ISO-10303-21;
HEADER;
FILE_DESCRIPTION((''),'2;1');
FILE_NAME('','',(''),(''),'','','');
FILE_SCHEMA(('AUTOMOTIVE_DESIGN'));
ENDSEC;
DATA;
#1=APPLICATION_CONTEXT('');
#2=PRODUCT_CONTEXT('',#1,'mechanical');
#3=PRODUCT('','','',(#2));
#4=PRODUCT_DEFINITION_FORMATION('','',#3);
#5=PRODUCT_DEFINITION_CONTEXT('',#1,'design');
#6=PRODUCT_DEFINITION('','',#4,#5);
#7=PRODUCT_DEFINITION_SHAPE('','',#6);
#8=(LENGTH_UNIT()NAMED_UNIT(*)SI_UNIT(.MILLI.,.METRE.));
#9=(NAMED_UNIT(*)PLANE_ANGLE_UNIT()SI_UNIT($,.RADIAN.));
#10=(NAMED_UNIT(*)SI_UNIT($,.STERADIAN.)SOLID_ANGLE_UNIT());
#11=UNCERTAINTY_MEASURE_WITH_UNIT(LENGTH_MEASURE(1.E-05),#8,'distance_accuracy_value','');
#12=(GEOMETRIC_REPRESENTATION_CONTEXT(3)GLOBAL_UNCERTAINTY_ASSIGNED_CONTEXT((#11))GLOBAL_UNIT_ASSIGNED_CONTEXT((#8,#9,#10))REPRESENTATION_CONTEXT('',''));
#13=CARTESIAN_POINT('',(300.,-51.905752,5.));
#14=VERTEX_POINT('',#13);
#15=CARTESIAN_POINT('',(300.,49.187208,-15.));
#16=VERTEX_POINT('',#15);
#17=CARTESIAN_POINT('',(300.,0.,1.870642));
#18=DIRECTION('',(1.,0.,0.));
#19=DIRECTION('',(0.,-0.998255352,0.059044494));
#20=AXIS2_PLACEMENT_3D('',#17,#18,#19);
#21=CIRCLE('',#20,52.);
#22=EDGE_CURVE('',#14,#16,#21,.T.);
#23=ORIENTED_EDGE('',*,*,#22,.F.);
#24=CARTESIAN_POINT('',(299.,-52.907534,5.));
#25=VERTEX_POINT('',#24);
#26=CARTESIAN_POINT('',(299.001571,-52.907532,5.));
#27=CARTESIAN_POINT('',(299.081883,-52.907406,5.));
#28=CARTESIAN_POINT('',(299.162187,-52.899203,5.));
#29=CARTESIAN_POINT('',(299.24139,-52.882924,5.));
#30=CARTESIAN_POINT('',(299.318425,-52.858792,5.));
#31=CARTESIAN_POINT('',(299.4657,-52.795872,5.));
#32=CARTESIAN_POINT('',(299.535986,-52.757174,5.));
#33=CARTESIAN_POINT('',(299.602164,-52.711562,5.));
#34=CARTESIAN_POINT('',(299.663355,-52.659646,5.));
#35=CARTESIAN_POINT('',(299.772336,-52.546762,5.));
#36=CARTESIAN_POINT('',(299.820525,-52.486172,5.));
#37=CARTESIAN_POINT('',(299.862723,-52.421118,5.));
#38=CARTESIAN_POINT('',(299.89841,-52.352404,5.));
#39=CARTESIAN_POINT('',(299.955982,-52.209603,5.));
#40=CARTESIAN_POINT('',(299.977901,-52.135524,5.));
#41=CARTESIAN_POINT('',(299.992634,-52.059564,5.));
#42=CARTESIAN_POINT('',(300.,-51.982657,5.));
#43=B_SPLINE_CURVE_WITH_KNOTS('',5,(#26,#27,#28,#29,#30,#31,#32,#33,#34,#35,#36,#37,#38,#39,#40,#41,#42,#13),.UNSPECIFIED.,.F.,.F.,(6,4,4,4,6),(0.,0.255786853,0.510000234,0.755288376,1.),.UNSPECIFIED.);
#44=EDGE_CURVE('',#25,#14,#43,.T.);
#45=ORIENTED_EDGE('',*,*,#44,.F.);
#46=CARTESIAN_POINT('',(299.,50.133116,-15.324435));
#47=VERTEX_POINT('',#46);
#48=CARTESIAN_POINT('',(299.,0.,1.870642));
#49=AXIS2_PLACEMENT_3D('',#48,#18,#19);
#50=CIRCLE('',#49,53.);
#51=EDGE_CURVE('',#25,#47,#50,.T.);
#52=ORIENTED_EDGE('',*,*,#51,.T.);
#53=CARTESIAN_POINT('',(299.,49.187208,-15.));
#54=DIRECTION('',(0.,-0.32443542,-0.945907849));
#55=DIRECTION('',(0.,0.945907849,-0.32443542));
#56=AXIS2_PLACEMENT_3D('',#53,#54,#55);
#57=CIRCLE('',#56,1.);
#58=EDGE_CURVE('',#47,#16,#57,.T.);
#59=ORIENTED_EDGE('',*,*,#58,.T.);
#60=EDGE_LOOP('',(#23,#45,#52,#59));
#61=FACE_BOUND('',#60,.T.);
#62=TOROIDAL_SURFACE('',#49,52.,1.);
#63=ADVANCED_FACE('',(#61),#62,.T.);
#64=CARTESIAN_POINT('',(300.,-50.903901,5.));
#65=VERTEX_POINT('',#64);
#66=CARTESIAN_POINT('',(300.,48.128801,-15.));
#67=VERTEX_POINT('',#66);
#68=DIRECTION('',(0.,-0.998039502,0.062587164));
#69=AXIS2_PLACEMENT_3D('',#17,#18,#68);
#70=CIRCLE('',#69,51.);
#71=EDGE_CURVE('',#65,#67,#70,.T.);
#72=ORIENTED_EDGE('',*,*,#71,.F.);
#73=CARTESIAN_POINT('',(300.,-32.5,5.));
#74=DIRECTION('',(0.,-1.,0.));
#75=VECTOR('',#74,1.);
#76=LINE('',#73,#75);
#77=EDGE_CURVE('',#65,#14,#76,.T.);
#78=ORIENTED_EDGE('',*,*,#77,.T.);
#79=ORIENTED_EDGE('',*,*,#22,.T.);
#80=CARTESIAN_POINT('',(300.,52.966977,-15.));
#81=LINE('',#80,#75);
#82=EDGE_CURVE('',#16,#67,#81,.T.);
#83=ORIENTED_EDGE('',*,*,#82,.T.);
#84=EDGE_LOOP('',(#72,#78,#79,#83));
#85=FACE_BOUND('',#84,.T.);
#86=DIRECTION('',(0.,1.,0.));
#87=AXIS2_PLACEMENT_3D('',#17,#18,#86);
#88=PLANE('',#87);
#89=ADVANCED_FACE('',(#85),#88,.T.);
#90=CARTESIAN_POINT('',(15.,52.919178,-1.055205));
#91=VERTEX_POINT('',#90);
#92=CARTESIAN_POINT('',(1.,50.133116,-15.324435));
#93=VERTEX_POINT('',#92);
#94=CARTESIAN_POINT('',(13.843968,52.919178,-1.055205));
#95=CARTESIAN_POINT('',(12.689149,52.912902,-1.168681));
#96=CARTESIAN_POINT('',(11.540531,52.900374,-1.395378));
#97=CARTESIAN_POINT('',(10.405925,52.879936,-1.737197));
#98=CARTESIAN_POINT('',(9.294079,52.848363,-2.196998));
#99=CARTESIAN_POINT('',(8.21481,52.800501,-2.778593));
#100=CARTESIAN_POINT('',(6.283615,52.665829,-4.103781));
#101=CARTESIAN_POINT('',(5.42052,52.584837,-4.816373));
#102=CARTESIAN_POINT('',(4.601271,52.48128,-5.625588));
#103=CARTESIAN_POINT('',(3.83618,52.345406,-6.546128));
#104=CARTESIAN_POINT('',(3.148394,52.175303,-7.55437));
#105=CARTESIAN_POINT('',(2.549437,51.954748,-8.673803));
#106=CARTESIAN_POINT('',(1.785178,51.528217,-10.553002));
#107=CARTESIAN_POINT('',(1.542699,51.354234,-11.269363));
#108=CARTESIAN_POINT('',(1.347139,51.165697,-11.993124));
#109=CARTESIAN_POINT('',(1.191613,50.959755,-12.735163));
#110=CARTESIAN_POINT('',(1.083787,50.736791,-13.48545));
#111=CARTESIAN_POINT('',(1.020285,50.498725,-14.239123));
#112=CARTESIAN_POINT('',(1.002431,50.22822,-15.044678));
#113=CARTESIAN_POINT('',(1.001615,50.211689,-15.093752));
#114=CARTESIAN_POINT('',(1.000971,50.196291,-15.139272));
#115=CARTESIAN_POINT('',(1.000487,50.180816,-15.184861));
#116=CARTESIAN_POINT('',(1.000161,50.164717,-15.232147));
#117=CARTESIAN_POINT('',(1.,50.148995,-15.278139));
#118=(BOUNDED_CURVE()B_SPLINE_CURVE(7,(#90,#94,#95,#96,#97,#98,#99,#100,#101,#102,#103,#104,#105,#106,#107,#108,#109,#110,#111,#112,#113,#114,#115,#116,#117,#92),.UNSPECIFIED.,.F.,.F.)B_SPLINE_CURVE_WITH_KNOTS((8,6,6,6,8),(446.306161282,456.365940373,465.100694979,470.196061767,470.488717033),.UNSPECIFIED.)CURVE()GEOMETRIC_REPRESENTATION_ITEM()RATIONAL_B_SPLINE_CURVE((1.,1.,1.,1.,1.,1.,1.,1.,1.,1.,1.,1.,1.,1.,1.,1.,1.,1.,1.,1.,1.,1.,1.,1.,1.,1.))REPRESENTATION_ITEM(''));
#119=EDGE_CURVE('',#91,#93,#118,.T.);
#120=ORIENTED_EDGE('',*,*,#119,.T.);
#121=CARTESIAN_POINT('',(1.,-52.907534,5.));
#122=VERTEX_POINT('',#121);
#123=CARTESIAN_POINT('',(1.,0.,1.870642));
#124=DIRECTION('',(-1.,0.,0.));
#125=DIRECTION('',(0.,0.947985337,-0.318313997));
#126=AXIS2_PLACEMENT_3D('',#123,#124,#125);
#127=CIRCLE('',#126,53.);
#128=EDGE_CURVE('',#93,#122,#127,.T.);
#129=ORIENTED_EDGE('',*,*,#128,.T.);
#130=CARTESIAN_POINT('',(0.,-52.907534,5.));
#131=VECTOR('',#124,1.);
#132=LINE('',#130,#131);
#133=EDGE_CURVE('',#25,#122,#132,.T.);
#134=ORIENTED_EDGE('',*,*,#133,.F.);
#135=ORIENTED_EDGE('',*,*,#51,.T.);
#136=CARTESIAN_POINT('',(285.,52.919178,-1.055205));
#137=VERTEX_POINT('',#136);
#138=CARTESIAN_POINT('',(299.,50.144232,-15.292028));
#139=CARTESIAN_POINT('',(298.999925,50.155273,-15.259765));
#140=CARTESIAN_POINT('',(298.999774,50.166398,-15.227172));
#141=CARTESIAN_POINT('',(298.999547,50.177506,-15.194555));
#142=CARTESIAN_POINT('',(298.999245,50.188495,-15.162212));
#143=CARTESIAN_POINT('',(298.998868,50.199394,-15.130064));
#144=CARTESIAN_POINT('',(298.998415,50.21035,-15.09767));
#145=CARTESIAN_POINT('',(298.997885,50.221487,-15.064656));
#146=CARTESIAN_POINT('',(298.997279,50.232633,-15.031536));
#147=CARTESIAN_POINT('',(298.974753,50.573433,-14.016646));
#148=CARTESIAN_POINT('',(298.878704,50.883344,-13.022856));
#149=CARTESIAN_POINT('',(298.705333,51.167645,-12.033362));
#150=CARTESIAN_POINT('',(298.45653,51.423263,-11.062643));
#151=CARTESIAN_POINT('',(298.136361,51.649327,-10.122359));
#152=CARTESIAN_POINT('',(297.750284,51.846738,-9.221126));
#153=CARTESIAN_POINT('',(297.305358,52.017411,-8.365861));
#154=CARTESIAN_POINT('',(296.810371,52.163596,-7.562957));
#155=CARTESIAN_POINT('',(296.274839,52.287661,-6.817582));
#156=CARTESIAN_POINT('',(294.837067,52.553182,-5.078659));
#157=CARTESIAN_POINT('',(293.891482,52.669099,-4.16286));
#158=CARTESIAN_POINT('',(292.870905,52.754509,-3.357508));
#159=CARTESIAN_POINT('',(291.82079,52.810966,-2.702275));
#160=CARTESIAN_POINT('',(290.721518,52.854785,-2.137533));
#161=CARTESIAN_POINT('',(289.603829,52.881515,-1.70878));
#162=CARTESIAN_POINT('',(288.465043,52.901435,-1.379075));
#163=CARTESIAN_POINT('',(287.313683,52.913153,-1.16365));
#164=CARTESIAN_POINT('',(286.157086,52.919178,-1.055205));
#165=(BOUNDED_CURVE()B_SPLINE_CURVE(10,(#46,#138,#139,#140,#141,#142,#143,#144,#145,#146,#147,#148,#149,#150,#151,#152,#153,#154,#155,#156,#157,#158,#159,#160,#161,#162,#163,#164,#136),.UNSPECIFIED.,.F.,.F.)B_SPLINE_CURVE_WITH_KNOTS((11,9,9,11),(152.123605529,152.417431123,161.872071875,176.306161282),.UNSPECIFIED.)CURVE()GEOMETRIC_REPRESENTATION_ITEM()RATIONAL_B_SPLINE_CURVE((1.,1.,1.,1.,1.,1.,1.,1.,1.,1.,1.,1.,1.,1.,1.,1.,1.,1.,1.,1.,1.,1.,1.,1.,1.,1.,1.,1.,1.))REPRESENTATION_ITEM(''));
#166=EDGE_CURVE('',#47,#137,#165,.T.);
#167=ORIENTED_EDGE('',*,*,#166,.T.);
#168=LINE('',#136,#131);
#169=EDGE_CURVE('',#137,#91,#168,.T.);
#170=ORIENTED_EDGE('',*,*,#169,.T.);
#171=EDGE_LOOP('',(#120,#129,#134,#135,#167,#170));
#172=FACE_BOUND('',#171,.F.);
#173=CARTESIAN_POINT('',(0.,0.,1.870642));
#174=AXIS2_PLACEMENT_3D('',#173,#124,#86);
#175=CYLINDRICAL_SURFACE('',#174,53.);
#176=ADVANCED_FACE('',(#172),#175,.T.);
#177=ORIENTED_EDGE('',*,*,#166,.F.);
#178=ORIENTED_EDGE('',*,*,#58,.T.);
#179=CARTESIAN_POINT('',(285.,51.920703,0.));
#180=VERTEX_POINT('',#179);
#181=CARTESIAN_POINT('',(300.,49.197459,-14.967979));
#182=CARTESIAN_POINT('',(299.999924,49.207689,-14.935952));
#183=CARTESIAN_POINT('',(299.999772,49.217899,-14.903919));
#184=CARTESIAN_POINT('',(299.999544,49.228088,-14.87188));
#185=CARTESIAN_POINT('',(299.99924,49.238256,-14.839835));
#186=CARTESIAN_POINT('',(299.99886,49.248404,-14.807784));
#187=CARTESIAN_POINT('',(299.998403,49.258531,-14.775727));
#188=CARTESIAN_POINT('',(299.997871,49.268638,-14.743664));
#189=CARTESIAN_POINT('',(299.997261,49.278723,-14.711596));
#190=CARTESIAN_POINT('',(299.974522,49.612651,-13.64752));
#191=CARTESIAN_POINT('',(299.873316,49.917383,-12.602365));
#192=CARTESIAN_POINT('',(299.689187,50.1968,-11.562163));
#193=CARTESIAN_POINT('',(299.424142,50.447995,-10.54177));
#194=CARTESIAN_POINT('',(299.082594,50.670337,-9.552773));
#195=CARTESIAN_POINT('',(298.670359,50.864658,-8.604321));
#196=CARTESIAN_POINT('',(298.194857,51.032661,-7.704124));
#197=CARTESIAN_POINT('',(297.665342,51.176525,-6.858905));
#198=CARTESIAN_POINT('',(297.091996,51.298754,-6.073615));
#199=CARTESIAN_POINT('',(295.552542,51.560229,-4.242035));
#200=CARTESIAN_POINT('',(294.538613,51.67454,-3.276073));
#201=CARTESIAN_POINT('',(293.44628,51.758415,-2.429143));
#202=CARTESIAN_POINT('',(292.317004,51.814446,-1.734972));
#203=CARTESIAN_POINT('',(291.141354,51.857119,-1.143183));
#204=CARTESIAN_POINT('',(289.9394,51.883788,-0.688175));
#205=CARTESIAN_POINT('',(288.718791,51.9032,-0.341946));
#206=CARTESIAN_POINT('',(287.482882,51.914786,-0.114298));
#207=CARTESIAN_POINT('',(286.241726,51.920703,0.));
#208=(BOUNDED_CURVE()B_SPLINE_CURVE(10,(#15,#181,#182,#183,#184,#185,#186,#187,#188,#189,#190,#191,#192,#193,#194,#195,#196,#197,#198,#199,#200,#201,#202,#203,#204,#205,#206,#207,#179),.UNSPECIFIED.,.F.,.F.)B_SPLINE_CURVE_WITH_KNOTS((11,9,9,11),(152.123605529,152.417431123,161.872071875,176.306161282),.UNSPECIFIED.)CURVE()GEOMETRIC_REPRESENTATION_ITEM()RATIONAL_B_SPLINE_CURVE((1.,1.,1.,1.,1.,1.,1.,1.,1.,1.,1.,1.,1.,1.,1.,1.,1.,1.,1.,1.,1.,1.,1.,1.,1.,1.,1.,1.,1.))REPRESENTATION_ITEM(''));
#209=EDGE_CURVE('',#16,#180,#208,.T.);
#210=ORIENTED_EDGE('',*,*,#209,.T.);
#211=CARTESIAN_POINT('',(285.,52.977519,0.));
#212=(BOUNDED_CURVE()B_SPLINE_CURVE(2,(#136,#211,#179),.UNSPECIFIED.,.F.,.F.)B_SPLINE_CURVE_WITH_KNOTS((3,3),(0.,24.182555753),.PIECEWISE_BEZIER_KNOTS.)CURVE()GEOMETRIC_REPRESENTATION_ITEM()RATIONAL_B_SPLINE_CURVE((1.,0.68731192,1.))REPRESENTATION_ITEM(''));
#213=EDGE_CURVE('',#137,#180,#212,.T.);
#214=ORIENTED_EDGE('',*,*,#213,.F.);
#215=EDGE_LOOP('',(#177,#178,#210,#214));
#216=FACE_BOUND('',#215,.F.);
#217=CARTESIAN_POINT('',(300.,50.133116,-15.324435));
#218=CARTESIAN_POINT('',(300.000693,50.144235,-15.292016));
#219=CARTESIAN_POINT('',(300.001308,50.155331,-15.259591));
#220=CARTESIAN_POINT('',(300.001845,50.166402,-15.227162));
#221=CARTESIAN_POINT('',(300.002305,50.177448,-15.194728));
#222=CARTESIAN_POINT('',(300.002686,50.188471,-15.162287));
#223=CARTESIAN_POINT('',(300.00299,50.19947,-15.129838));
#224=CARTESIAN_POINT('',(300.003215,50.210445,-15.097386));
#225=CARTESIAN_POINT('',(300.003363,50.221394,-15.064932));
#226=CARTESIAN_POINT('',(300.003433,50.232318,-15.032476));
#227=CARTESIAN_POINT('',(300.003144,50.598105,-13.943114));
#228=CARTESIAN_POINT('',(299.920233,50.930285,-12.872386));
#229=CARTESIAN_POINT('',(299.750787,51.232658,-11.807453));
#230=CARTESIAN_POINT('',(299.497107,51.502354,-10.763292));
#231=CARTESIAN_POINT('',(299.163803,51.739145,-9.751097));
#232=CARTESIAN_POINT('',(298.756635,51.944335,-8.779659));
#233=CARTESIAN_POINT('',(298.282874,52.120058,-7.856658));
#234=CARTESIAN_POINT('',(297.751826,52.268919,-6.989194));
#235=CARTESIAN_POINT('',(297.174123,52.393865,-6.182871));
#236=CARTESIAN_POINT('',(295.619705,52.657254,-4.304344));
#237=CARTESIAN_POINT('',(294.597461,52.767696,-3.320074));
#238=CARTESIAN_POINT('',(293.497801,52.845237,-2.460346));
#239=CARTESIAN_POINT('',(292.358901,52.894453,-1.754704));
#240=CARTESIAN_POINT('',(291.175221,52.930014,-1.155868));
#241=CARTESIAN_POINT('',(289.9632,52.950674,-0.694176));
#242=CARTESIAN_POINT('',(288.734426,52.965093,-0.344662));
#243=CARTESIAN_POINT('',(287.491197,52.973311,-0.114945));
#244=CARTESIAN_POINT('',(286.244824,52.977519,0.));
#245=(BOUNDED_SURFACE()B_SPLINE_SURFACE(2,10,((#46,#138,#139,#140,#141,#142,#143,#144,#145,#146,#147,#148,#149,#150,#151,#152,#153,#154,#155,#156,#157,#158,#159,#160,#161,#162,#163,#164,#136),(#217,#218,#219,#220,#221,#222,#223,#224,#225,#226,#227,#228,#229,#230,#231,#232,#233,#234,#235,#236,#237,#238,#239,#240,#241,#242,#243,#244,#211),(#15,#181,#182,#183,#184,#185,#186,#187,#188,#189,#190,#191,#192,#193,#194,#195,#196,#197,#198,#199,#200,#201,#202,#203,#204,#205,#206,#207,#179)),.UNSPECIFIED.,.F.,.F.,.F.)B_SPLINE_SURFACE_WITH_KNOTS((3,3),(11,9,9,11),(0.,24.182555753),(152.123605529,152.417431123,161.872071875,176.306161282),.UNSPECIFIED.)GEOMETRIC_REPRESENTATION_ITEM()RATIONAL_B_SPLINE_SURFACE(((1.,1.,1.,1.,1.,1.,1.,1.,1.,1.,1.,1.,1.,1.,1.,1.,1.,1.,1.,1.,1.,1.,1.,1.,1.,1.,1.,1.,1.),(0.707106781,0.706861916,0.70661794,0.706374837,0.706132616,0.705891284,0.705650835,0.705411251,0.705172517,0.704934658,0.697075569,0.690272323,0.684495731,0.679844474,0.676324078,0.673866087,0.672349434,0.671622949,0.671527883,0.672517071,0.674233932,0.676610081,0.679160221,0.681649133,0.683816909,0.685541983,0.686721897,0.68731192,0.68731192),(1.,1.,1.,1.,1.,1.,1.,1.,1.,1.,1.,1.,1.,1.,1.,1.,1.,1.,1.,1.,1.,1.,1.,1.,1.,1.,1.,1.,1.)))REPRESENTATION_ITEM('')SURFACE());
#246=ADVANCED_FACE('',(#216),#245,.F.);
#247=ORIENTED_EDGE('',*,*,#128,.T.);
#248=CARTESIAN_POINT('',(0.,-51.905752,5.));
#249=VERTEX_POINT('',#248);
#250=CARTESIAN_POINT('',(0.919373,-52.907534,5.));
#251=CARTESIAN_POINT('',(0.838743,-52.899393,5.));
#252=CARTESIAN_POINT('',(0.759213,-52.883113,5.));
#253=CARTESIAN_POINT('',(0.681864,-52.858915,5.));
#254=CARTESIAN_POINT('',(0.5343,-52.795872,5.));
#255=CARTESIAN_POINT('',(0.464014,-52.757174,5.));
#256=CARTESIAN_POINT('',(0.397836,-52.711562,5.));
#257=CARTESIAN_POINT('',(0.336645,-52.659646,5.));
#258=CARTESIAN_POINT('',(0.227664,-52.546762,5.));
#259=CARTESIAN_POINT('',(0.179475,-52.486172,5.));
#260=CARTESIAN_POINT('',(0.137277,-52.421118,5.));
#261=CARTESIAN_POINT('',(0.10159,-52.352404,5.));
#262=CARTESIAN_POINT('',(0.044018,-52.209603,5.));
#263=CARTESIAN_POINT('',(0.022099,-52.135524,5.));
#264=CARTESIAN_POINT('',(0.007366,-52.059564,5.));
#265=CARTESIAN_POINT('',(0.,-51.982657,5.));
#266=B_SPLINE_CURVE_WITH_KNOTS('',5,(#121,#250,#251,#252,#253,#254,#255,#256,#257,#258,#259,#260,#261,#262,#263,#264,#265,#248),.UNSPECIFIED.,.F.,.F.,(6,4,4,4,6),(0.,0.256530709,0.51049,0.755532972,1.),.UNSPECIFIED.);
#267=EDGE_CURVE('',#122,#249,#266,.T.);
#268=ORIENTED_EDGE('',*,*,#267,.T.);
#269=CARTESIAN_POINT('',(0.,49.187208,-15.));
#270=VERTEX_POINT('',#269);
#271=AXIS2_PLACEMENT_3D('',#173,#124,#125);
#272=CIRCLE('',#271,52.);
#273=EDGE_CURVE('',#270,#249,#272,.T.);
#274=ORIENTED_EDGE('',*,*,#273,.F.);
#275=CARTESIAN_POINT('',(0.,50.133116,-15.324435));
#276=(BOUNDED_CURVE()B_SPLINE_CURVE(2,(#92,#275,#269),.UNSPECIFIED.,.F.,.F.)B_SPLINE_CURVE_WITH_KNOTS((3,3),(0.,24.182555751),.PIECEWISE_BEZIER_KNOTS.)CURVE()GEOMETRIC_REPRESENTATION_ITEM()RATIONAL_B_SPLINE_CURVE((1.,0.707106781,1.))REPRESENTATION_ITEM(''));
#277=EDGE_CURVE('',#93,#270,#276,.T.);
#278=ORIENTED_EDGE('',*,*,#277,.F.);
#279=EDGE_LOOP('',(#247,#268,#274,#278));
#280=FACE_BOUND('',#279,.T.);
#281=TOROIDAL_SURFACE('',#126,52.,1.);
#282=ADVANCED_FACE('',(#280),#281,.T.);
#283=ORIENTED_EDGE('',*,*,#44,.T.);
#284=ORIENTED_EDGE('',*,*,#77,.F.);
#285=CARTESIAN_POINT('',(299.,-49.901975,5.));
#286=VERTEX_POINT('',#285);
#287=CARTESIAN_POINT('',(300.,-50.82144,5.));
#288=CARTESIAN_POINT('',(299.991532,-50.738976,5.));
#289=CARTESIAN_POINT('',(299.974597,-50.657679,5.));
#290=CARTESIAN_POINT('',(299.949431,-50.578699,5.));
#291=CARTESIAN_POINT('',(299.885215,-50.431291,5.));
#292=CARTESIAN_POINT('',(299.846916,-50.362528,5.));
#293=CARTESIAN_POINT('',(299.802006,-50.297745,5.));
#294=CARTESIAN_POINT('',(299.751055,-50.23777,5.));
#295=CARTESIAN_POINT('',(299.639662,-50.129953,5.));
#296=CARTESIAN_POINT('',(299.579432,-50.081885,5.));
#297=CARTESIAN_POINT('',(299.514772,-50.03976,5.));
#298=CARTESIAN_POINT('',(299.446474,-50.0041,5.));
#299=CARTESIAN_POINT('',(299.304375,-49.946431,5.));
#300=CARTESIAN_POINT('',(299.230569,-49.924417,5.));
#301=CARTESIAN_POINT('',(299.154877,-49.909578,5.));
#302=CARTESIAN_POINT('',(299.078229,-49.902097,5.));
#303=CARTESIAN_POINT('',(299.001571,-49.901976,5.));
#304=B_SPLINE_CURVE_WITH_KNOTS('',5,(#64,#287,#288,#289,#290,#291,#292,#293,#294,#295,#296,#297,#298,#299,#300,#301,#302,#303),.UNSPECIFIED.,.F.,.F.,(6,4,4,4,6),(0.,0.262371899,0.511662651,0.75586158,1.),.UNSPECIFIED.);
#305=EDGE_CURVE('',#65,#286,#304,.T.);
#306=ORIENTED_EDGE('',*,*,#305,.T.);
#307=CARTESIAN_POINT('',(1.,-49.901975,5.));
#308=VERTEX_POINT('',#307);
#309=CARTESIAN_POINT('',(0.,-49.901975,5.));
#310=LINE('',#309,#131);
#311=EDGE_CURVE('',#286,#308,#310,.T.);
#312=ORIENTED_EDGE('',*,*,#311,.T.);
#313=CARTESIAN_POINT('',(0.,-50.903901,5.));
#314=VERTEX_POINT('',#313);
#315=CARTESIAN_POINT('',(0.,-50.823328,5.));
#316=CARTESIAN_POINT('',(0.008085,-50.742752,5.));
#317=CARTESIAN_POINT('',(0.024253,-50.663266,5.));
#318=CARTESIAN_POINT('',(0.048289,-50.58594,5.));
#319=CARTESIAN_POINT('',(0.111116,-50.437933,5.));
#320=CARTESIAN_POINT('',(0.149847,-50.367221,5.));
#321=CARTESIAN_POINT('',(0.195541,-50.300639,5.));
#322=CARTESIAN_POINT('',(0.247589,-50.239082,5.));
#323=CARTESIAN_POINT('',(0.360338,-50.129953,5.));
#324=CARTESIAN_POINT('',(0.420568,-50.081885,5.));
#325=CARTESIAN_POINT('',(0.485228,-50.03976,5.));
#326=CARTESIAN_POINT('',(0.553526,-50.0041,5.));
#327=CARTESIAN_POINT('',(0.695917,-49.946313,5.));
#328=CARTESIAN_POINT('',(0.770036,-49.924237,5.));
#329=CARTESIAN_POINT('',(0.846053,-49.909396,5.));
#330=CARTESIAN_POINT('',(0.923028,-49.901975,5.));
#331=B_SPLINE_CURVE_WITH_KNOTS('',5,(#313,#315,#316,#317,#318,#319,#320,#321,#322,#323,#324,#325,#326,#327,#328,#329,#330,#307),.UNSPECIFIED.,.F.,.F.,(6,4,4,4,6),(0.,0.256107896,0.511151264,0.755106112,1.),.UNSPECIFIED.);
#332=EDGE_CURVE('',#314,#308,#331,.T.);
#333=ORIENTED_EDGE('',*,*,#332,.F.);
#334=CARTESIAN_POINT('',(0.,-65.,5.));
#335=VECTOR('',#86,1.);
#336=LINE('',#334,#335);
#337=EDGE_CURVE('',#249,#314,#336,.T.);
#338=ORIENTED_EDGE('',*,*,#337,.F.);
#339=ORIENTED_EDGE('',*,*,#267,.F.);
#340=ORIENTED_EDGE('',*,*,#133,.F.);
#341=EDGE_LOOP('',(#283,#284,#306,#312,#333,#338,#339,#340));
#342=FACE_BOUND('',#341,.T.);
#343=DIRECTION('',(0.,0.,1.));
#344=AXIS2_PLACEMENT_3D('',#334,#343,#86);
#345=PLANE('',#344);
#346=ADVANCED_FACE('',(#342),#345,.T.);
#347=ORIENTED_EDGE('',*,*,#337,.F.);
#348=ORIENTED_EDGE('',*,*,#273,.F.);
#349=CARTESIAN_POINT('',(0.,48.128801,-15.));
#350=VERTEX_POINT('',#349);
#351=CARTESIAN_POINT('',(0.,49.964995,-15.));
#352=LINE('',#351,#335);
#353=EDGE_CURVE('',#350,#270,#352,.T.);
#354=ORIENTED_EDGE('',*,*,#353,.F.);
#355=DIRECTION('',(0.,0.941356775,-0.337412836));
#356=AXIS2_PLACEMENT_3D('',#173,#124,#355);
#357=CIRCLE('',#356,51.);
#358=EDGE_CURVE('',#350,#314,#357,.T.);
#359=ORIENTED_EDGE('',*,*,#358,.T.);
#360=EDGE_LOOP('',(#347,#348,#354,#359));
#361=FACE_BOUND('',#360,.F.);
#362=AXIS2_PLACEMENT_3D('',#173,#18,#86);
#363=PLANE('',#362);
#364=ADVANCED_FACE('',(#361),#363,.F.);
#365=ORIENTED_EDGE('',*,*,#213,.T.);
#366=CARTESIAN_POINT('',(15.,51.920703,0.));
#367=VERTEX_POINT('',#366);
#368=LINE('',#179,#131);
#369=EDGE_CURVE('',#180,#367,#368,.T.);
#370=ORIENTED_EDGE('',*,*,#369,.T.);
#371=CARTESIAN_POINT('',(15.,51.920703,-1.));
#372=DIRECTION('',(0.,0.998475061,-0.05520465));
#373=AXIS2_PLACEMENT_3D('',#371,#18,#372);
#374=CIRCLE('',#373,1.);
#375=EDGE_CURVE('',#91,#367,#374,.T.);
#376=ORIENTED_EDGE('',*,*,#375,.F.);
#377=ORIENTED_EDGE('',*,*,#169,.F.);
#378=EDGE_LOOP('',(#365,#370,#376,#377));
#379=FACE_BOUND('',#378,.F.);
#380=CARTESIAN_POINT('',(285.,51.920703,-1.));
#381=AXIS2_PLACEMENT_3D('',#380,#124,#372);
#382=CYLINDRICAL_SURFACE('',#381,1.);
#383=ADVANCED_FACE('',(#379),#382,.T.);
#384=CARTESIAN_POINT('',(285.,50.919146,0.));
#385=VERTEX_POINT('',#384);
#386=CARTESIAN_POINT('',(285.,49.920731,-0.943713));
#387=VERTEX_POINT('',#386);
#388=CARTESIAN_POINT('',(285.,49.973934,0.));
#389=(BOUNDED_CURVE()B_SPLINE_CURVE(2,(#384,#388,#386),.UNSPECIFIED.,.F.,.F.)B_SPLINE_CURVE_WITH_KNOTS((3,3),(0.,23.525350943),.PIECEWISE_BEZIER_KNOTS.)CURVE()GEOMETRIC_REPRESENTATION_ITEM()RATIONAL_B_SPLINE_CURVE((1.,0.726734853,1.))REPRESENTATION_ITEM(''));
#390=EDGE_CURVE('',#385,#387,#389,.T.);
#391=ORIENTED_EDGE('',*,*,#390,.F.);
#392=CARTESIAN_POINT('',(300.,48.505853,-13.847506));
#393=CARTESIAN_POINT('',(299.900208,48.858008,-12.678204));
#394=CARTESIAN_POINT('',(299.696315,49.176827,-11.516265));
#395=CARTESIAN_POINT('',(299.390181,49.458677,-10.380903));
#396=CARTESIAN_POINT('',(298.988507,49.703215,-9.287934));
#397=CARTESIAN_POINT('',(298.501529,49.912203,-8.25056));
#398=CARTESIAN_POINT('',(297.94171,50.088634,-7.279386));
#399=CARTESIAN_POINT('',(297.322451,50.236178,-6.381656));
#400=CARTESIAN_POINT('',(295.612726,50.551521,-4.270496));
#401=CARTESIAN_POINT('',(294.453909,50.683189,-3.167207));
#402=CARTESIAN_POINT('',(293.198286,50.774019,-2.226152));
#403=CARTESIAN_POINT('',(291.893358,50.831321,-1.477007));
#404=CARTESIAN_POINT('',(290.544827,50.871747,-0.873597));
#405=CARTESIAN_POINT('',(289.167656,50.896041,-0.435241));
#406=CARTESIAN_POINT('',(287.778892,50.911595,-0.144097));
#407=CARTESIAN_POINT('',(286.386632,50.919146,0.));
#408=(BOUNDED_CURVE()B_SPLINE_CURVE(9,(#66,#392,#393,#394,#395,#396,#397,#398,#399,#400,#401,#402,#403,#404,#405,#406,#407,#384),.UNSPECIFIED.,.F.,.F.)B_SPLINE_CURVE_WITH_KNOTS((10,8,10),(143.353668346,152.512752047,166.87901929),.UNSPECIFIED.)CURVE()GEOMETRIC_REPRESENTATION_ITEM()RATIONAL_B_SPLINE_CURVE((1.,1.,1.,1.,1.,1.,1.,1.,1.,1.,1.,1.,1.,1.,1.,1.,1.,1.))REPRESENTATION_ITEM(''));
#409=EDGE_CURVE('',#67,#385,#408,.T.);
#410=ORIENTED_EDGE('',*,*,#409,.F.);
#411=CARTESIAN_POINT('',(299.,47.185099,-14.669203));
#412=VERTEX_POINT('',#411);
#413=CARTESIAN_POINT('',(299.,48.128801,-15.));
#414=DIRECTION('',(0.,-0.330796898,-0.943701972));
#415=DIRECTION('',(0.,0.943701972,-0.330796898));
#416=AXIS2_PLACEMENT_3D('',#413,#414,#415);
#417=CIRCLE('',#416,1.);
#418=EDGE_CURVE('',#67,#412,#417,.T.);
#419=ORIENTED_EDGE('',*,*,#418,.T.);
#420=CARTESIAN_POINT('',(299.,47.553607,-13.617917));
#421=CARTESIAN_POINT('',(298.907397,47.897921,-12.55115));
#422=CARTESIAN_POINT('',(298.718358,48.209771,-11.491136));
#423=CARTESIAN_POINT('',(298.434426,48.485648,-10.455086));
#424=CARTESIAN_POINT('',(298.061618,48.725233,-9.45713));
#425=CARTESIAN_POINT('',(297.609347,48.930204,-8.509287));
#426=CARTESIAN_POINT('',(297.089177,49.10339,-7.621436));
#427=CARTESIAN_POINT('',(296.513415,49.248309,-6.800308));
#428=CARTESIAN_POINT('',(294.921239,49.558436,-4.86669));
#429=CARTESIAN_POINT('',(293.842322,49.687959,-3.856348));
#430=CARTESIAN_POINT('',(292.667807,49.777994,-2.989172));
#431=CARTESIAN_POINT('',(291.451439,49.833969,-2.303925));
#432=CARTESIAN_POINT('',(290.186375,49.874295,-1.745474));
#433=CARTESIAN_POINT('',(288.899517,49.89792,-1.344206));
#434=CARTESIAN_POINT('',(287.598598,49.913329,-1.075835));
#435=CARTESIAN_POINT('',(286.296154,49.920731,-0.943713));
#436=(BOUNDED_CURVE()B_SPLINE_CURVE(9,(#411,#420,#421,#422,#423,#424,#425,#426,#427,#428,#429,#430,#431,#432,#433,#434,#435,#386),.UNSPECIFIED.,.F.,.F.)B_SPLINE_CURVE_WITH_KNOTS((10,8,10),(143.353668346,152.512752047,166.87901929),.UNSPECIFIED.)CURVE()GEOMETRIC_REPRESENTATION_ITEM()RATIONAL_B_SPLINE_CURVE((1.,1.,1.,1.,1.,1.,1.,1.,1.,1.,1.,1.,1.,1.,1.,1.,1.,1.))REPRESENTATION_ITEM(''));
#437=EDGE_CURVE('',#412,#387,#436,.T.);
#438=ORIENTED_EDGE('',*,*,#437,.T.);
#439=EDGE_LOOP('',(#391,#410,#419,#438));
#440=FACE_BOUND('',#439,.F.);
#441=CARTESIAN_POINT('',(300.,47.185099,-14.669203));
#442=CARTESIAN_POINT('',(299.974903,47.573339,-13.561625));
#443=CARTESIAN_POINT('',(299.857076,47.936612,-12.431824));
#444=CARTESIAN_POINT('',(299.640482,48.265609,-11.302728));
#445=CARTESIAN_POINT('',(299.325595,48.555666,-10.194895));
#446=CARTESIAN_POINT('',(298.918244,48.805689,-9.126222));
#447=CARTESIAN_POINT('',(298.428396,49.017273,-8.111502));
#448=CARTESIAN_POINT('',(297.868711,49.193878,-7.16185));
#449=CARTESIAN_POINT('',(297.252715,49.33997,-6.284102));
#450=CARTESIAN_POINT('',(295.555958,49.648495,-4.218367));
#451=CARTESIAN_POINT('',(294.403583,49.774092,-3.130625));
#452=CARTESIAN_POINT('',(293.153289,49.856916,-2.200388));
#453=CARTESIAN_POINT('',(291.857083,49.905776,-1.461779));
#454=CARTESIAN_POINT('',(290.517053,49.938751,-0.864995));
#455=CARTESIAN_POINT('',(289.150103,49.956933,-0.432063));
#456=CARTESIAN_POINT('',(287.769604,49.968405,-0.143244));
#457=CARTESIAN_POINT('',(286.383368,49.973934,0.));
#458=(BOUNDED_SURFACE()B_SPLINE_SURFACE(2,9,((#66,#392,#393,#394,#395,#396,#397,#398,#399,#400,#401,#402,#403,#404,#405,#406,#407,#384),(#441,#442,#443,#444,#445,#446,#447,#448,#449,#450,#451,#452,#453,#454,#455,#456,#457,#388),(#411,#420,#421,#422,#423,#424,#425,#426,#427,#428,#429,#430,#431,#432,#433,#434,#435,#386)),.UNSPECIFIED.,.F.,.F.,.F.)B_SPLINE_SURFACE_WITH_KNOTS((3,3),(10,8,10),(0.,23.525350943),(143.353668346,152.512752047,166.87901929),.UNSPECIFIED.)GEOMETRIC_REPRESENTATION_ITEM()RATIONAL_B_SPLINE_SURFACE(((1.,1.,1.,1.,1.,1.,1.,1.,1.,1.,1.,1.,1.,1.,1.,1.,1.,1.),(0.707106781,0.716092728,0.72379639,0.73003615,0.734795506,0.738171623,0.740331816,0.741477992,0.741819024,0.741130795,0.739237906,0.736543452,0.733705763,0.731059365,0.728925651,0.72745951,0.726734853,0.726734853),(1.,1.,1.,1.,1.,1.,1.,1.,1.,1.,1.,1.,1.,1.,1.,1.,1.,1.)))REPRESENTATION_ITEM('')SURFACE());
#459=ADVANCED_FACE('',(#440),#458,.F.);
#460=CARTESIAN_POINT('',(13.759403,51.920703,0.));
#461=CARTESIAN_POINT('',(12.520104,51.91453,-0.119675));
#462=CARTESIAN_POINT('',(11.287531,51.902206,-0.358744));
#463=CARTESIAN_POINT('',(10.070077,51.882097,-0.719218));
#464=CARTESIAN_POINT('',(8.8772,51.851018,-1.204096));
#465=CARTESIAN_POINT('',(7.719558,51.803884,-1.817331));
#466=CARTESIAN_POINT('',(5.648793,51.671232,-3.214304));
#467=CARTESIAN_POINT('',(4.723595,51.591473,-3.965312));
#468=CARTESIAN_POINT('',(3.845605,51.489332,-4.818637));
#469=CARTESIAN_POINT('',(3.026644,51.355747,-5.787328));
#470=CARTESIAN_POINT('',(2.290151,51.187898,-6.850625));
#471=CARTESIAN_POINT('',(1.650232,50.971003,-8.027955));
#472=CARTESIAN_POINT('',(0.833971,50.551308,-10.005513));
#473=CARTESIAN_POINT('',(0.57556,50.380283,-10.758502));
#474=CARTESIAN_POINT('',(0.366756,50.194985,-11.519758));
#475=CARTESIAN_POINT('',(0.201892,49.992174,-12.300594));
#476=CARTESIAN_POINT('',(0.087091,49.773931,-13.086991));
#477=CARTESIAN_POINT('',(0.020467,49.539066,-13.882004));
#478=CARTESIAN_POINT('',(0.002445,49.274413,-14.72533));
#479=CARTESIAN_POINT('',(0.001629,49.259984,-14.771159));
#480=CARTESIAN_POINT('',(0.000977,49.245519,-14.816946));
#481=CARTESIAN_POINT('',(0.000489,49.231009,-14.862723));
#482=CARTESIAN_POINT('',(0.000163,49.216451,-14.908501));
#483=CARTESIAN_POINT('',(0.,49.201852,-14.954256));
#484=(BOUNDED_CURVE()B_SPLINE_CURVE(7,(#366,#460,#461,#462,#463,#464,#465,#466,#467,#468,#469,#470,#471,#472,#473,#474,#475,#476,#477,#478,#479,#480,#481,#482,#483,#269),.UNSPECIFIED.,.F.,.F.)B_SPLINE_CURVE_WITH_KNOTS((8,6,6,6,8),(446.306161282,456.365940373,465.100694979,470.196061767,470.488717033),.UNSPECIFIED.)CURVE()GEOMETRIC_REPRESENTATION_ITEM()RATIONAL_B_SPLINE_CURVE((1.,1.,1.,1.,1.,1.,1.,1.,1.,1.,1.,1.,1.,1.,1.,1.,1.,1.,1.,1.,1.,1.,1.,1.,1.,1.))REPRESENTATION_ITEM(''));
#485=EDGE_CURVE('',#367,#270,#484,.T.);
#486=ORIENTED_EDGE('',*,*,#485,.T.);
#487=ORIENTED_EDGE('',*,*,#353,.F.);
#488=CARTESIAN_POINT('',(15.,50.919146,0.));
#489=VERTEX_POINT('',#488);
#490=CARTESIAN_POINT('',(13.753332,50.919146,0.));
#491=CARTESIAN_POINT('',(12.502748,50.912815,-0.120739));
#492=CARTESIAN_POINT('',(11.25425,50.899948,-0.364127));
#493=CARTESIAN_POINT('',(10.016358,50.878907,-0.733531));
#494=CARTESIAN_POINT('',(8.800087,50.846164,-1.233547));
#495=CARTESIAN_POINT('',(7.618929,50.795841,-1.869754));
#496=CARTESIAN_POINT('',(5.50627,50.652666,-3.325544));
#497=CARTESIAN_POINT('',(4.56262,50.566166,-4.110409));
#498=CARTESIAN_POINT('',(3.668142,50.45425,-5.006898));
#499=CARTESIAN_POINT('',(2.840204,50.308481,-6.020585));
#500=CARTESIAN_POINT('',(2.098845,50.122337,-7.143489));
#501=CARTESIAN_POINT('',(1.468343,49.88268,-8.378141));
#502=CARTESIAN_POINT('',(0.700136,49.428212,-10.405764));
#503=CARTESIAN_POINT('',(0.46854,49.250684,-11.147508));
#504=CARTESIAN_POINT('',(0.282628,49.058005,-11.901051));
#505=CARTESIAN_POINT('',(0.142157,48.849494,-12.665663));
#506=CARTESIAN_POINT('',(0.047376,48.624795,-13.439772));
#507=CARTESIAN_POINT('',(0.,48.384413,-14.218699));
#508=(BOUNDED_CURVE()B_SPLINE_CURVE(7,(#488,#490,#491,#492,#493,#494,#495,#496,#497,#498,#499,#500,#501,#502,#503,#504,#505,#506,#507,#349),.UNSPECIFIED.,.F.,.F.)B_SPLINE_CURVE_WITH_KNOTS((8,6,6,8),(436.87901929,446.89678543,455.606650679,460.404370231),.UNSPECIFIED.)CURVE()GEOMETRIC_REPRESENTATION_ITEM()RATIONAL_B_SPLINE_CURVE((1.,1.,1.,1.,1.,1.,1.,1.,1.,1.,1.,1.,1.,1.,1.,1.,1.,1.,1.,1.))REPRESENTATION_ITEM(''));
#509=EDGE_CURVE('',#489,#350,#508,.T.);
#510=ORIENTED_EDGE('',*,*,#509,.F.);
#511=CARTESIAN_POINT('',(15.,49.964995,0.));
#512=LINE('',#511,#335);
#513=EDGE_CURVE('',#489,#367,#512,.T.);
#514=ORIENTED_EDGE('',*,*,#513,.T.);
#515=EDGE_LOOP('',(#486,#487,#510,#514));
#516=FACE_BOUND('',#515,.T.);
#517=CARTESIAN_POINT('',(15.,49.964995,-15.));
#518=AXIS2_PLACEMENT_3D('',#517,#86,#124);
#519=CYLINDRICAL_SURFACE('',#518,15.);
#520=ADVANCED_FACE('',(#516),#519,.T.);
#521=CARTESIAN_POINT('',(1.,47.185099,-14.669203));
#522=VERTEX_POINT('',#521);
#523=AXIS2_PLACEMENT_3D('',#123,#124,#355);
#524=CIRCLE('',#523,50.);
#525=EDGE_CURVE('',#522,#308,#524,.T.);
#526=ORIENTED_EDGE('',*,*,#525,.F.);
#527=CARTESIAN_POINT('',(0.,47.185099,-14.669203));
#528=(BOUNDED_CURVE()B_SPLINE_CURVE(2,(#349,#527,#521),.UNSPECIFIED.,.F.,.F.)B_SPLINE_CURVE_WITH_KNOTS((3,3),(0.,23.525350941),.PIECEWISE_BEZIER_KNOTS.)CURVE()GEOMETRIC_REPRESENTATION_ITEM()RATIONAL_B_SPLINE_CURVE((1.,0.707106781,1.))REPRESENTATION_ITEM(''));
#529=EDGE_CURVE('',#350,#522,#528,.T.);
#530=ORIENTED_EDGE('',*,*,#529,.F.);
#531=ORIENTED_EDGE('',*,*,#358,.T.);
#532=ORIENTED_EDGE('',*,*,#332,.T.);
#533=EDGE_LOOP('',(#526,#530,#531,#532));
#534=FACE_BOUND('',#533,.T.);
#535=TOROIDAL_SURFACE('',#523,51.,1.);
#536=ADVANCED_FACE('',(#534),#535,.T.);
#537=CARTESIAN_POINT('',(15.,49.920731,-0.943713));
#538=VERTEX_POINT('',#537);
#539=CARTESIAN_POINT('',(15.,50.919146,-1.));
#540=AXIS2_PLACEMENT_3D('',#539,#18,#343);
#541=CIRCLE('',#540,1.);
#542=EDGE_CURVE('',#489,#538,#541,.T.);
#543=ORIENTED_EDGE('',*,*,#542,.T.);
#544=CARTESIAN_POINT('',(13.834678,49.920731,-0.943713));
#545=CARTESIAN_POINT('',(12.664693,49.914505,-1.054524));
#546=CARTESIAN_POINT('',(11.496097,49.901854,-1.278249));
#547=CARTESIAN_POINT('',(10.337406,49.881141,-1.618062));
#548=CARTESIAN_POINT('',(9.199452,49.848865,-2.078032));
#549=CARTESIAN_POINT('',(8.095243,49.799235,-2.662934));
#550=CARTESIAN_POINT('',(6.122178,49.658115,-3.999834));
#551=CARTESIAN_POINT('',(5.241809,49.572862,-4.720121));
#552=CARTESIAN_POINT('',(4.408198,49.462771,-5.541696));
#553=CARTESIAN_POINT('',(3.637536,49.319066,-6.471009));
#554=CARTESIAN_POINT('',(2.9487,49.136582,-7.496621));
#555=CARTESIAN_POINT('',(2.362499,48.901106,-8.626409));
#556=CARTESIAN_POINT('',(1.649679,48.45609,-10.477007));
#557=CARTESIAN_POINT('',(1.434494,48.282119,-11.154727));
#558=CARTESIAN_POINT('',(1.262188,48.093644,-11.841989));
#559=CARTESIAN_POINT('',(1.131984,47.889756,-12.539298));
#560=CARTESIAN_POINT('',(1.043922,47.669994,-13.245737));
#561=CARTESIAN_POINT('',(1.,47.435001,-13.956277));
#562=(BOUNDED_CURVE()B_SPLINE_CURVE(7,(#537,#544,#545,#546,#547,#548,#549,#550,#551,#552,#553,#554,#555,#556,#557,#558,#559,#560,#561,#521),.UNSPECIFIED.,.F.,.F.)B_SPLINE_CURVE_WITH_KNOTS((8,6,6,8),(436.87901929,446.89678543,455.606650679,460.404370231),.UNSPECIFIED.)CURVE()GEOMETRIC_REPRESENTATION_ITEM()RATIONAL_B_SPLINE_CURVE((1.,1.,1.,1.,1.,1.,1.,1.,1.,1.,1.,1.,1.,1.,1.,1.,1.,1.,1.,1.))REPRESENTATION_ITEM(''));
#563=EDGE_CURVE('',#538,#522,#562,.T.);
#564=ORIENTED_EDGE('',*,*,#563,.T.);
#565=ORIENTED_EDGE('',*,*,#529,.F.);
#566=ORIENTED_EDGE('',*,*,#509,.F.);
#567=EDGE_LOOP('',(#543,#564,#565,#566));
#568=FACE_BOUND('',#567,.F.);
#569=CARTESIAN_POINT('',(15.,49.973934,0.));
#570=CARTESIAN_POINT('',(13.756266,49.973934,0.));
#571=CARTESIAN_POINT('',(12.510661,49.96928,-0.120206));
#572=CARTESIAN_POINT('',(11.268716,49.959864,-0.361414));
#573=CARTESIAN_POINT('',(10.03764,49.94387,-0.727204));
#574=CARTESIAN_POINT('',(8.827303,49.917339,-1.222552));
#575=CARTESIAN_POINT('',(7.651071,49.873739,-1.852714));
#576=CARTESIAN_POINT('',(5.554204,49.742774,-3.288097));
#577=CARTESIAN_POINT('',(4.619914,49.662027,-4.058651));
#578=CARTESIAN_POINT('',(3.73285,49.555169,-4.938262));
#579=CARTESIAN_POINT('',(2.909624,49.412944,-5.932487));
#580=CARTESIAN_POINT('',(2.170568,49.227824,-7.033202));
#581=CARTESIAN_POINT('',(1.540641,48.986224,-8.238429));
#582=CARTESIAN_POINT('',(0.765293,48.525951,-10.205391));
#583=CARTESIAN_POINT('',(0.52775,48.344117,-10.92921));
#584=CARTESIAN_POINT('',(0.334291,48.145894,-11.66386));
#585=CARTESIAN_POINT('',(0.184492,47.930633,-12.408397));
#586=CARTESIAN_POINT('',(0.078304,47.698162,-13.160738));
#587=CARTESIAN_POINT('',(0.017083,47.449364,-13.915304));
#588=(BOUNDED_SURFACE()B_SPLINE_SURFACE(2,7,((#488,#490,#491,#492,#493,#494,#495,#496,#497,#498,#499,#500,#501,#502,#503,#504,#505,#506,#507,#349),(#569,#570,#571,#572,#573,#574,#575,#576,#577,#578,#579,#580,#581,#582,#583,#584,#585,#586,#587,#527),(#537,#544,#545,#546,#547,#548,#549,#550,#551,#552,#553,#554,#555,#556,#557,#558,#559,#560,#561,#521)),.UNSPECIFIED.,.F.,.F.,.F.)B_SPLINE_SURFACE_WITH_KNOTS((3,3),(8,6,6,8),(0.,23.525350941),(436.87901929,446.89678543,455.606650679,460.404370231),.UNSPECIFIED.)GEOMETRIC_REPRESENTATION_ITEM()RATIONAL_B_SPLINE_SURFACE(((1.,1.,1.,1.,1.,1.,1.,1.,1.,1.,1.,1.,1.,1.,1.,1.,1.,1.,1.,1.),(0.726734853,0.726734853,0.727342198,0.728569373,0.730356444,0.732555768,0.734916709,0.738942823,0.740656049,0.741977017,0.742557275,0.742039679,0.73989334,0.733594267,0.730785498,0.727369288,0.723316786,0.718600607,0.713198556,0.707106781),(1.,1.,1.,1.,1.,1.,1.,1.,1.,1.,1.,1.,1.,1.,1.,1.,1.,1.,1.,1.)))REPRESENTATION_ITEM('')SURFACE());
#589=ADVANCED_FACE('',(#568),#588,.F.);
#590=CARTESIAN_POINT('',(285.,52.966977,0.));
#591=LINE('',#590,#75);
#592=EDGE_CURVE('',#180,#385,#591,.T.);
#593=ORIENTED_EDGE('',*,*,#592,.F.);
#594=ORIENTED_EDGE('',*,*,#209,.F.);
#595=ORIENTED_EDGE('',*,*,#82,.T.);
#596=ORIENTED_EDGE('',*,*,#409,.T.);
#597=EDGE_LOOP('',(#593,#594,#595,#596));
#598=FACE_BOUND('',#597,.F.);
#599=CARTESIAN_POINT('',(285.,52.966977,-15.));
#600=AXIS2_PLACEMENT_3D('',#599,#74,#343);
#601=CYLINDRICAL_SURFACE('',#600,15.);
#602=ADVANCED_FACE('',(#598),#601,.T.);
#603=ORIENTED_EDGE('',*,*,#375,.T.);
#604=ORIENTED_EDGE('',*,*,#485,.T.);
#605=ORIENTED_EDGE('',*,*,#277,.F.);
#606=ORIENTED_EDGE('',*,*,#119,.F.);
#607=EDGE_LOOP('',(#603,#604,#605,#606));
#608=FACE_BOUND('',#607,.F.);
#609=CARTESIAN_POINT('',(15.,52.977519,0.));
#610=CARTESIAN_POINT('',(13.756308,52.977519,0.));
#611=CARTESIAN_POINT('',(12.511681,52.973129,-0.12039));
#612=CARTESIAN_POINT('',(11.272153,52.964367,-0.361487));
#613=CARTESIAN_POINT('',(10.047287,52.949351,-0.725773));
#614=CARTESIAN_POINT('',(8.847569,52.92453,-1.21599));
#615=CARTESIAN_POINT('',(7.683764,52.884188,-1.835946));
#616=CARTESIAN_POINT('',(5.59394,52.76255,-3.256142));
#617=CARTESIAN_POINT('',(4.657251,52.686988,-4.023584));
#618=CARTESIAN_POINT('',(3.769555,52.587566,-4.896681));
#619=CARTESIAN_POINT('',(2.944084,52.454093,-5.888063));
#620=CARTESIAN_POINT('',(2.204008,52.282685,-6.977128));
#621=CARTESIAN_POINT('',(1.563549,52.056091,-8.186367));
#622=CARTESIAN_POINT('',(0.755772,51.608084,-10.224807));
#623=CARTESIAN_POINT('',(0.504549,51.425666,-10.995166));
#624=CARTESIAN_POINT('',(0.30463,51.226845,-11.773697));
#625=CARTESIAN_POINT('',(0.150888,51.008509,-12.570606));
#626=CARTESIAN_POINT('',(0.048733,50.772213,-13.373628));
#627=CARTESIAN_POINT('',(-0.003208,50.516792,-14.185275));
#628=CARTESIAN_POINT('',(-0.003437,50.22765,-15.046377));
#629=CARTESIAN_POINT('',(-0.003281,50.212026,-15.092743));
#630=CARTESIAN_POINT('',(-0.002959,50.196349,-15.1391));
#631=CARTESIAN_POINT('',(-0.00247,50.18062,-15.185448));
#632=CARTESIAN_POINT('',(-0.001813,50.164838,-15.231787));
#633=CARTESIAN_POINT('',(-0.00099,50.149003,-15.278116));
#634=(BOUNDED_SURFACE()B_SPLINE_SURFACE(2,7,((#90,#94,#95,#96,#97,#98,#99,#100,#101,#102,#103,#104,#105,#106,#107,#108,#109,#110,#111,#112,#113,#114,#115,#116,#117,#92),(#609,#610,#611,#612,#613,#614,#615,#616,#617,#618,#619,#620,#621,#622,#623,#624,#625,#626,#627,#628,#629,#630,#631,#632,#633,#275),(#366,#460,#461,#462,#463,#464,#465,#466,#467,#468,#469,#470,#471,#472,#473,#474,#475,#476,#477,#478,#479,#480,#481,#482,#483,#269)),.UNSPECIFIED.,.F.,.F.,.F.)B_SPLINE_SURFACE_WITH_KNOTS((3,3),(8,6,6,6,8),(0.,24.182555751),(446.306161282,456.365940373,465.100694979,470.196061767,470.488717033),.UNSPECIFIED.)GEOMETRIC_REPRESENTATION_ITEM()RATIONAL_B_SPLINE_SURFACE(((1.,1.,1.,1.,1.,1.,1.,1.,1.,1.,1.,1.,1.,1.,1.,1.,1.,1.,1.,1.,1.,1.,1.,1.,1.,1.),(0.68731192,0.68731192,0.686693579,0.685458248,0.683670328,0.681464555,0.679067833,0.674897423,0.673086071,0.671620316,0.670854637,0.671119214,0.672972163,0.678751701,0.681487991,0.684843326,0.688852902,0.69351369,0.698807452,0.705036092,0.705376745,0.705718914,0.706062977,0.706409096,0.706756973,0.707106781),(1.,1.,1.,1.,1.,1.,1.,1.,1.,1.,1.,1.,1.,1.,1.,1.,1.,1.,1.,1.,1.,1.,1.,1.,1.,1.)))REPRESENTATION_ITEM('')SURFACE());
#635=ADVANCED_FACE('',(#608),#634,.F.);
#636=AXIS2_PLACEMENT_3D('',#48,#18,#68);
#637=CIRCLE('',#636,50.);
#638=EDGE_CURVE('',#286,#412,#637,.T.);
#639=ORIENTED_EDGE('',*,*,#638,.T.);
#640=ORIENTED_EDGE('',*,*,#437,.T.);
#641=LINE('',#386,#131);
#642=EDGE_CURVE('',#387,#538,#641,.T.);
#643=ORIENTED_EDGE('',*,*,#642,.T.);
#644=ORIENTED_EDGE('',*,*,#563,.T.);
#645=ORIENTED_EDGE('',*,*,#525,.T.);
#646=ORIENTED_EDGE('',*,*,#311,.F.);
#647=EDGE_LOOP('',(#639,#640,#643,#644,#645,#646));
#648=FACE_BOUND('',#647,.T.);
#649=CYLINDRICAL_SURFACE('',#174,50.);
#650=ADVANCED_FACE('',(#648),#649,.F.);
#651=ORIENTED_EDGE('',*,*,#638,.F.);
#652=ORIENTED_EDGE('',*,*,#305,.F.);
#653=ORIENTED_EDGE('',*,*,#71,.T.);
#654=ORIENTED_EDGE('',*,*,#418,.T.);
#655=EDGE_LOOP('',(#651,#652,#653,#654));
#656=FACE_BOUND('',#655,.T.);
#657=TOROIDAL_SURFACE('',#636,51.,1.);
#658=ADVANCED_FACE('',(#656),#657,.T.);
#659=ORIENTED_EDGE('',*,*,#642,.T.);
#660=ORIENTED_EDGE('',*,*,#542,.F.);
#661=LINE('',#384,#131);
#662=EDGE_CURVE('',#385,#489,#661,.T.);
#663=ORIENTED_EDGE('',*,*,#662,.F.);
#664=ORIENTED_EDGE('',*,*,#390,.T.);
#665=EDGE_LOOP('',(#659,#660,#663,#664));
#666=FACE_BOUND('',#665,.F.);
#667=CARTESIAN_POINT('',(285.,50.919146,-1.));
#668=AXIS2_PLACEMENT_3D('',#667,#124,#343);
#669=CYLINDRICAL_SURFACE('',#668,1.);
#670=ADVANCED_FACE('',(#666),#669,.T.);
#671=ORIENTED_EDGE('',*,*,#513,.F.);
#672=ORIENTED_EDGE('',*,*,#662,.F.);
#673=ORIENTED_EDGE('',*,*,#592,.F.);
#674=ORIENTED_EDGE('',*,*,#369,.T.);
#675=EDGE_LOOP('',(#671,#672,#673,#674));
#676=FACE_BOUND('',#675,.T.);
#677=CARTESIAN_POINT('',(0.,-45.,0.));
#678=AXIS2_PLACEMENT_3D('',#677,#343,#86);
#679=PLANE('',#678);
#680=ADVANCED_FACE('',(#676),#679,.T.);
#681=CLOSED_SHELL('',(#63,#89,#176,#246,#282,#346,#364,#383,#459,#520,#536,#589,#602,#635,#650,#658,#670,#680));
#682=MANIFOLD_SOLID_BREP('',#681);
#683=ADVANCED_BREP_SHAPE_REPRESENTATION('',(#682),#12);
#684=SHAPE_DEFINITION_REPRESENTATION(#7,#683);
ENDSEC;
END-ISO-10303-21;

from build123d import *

# Parameters (mm, degrees)
F0_R     = 53
F0_R_2   = 50
F1_DEPTH = 300
F3_DEPTH = 300.001
F4_R     = 15
F5_R     = 1


with BuildPart() as f1:
    # F0 (on Right) → F1 (new body)
    with BuildSketch(Plane.YZ):
        with Locations((0, 1.8706418186)):
            Circle(F0_R)
        with Locations((0, 1.8706418186)):
            Circle(F0_R_2, mode=Mode.SUBTRACT)
    extrude(amount=F1_DEPTH)

    # F2 (on Right) → F3 (cut, through all)
    with BuildSketch(Plane.YZ):
        Polygon((-45, 0), (0, 0), (150.288850058, 0), (150.288850058, 138.1199563971), (0, 138.1199563971), (-236.3291914778, 138.1199563971), (-236.3291914778, 0), (-65, 0), (-65, 5), (-45, 5), align=None)
    extrude(amount=F3_DEPTH, mode=Mode.SUBTRACT)

    # F4
    f4_edges = [f1.edges().sort_by_distance(p)[0] for p in [
        (300, 51.465986, 0),
        (0, 51.465986, 0),
    ]]
    fillet(f4_edges, radius=F4_R)

    # F5
    f5_edges = [f1.edges().sort_by_distance(p)[0] for p in [
        (150, 52.966977, 0),
        (285, 51.465986, 0),
        (15, 51.465986, 0),
        (150, 49.964995, 0),
    ]]
    fillet(f5_edges, radius=F5_R)


solid = f1.part
